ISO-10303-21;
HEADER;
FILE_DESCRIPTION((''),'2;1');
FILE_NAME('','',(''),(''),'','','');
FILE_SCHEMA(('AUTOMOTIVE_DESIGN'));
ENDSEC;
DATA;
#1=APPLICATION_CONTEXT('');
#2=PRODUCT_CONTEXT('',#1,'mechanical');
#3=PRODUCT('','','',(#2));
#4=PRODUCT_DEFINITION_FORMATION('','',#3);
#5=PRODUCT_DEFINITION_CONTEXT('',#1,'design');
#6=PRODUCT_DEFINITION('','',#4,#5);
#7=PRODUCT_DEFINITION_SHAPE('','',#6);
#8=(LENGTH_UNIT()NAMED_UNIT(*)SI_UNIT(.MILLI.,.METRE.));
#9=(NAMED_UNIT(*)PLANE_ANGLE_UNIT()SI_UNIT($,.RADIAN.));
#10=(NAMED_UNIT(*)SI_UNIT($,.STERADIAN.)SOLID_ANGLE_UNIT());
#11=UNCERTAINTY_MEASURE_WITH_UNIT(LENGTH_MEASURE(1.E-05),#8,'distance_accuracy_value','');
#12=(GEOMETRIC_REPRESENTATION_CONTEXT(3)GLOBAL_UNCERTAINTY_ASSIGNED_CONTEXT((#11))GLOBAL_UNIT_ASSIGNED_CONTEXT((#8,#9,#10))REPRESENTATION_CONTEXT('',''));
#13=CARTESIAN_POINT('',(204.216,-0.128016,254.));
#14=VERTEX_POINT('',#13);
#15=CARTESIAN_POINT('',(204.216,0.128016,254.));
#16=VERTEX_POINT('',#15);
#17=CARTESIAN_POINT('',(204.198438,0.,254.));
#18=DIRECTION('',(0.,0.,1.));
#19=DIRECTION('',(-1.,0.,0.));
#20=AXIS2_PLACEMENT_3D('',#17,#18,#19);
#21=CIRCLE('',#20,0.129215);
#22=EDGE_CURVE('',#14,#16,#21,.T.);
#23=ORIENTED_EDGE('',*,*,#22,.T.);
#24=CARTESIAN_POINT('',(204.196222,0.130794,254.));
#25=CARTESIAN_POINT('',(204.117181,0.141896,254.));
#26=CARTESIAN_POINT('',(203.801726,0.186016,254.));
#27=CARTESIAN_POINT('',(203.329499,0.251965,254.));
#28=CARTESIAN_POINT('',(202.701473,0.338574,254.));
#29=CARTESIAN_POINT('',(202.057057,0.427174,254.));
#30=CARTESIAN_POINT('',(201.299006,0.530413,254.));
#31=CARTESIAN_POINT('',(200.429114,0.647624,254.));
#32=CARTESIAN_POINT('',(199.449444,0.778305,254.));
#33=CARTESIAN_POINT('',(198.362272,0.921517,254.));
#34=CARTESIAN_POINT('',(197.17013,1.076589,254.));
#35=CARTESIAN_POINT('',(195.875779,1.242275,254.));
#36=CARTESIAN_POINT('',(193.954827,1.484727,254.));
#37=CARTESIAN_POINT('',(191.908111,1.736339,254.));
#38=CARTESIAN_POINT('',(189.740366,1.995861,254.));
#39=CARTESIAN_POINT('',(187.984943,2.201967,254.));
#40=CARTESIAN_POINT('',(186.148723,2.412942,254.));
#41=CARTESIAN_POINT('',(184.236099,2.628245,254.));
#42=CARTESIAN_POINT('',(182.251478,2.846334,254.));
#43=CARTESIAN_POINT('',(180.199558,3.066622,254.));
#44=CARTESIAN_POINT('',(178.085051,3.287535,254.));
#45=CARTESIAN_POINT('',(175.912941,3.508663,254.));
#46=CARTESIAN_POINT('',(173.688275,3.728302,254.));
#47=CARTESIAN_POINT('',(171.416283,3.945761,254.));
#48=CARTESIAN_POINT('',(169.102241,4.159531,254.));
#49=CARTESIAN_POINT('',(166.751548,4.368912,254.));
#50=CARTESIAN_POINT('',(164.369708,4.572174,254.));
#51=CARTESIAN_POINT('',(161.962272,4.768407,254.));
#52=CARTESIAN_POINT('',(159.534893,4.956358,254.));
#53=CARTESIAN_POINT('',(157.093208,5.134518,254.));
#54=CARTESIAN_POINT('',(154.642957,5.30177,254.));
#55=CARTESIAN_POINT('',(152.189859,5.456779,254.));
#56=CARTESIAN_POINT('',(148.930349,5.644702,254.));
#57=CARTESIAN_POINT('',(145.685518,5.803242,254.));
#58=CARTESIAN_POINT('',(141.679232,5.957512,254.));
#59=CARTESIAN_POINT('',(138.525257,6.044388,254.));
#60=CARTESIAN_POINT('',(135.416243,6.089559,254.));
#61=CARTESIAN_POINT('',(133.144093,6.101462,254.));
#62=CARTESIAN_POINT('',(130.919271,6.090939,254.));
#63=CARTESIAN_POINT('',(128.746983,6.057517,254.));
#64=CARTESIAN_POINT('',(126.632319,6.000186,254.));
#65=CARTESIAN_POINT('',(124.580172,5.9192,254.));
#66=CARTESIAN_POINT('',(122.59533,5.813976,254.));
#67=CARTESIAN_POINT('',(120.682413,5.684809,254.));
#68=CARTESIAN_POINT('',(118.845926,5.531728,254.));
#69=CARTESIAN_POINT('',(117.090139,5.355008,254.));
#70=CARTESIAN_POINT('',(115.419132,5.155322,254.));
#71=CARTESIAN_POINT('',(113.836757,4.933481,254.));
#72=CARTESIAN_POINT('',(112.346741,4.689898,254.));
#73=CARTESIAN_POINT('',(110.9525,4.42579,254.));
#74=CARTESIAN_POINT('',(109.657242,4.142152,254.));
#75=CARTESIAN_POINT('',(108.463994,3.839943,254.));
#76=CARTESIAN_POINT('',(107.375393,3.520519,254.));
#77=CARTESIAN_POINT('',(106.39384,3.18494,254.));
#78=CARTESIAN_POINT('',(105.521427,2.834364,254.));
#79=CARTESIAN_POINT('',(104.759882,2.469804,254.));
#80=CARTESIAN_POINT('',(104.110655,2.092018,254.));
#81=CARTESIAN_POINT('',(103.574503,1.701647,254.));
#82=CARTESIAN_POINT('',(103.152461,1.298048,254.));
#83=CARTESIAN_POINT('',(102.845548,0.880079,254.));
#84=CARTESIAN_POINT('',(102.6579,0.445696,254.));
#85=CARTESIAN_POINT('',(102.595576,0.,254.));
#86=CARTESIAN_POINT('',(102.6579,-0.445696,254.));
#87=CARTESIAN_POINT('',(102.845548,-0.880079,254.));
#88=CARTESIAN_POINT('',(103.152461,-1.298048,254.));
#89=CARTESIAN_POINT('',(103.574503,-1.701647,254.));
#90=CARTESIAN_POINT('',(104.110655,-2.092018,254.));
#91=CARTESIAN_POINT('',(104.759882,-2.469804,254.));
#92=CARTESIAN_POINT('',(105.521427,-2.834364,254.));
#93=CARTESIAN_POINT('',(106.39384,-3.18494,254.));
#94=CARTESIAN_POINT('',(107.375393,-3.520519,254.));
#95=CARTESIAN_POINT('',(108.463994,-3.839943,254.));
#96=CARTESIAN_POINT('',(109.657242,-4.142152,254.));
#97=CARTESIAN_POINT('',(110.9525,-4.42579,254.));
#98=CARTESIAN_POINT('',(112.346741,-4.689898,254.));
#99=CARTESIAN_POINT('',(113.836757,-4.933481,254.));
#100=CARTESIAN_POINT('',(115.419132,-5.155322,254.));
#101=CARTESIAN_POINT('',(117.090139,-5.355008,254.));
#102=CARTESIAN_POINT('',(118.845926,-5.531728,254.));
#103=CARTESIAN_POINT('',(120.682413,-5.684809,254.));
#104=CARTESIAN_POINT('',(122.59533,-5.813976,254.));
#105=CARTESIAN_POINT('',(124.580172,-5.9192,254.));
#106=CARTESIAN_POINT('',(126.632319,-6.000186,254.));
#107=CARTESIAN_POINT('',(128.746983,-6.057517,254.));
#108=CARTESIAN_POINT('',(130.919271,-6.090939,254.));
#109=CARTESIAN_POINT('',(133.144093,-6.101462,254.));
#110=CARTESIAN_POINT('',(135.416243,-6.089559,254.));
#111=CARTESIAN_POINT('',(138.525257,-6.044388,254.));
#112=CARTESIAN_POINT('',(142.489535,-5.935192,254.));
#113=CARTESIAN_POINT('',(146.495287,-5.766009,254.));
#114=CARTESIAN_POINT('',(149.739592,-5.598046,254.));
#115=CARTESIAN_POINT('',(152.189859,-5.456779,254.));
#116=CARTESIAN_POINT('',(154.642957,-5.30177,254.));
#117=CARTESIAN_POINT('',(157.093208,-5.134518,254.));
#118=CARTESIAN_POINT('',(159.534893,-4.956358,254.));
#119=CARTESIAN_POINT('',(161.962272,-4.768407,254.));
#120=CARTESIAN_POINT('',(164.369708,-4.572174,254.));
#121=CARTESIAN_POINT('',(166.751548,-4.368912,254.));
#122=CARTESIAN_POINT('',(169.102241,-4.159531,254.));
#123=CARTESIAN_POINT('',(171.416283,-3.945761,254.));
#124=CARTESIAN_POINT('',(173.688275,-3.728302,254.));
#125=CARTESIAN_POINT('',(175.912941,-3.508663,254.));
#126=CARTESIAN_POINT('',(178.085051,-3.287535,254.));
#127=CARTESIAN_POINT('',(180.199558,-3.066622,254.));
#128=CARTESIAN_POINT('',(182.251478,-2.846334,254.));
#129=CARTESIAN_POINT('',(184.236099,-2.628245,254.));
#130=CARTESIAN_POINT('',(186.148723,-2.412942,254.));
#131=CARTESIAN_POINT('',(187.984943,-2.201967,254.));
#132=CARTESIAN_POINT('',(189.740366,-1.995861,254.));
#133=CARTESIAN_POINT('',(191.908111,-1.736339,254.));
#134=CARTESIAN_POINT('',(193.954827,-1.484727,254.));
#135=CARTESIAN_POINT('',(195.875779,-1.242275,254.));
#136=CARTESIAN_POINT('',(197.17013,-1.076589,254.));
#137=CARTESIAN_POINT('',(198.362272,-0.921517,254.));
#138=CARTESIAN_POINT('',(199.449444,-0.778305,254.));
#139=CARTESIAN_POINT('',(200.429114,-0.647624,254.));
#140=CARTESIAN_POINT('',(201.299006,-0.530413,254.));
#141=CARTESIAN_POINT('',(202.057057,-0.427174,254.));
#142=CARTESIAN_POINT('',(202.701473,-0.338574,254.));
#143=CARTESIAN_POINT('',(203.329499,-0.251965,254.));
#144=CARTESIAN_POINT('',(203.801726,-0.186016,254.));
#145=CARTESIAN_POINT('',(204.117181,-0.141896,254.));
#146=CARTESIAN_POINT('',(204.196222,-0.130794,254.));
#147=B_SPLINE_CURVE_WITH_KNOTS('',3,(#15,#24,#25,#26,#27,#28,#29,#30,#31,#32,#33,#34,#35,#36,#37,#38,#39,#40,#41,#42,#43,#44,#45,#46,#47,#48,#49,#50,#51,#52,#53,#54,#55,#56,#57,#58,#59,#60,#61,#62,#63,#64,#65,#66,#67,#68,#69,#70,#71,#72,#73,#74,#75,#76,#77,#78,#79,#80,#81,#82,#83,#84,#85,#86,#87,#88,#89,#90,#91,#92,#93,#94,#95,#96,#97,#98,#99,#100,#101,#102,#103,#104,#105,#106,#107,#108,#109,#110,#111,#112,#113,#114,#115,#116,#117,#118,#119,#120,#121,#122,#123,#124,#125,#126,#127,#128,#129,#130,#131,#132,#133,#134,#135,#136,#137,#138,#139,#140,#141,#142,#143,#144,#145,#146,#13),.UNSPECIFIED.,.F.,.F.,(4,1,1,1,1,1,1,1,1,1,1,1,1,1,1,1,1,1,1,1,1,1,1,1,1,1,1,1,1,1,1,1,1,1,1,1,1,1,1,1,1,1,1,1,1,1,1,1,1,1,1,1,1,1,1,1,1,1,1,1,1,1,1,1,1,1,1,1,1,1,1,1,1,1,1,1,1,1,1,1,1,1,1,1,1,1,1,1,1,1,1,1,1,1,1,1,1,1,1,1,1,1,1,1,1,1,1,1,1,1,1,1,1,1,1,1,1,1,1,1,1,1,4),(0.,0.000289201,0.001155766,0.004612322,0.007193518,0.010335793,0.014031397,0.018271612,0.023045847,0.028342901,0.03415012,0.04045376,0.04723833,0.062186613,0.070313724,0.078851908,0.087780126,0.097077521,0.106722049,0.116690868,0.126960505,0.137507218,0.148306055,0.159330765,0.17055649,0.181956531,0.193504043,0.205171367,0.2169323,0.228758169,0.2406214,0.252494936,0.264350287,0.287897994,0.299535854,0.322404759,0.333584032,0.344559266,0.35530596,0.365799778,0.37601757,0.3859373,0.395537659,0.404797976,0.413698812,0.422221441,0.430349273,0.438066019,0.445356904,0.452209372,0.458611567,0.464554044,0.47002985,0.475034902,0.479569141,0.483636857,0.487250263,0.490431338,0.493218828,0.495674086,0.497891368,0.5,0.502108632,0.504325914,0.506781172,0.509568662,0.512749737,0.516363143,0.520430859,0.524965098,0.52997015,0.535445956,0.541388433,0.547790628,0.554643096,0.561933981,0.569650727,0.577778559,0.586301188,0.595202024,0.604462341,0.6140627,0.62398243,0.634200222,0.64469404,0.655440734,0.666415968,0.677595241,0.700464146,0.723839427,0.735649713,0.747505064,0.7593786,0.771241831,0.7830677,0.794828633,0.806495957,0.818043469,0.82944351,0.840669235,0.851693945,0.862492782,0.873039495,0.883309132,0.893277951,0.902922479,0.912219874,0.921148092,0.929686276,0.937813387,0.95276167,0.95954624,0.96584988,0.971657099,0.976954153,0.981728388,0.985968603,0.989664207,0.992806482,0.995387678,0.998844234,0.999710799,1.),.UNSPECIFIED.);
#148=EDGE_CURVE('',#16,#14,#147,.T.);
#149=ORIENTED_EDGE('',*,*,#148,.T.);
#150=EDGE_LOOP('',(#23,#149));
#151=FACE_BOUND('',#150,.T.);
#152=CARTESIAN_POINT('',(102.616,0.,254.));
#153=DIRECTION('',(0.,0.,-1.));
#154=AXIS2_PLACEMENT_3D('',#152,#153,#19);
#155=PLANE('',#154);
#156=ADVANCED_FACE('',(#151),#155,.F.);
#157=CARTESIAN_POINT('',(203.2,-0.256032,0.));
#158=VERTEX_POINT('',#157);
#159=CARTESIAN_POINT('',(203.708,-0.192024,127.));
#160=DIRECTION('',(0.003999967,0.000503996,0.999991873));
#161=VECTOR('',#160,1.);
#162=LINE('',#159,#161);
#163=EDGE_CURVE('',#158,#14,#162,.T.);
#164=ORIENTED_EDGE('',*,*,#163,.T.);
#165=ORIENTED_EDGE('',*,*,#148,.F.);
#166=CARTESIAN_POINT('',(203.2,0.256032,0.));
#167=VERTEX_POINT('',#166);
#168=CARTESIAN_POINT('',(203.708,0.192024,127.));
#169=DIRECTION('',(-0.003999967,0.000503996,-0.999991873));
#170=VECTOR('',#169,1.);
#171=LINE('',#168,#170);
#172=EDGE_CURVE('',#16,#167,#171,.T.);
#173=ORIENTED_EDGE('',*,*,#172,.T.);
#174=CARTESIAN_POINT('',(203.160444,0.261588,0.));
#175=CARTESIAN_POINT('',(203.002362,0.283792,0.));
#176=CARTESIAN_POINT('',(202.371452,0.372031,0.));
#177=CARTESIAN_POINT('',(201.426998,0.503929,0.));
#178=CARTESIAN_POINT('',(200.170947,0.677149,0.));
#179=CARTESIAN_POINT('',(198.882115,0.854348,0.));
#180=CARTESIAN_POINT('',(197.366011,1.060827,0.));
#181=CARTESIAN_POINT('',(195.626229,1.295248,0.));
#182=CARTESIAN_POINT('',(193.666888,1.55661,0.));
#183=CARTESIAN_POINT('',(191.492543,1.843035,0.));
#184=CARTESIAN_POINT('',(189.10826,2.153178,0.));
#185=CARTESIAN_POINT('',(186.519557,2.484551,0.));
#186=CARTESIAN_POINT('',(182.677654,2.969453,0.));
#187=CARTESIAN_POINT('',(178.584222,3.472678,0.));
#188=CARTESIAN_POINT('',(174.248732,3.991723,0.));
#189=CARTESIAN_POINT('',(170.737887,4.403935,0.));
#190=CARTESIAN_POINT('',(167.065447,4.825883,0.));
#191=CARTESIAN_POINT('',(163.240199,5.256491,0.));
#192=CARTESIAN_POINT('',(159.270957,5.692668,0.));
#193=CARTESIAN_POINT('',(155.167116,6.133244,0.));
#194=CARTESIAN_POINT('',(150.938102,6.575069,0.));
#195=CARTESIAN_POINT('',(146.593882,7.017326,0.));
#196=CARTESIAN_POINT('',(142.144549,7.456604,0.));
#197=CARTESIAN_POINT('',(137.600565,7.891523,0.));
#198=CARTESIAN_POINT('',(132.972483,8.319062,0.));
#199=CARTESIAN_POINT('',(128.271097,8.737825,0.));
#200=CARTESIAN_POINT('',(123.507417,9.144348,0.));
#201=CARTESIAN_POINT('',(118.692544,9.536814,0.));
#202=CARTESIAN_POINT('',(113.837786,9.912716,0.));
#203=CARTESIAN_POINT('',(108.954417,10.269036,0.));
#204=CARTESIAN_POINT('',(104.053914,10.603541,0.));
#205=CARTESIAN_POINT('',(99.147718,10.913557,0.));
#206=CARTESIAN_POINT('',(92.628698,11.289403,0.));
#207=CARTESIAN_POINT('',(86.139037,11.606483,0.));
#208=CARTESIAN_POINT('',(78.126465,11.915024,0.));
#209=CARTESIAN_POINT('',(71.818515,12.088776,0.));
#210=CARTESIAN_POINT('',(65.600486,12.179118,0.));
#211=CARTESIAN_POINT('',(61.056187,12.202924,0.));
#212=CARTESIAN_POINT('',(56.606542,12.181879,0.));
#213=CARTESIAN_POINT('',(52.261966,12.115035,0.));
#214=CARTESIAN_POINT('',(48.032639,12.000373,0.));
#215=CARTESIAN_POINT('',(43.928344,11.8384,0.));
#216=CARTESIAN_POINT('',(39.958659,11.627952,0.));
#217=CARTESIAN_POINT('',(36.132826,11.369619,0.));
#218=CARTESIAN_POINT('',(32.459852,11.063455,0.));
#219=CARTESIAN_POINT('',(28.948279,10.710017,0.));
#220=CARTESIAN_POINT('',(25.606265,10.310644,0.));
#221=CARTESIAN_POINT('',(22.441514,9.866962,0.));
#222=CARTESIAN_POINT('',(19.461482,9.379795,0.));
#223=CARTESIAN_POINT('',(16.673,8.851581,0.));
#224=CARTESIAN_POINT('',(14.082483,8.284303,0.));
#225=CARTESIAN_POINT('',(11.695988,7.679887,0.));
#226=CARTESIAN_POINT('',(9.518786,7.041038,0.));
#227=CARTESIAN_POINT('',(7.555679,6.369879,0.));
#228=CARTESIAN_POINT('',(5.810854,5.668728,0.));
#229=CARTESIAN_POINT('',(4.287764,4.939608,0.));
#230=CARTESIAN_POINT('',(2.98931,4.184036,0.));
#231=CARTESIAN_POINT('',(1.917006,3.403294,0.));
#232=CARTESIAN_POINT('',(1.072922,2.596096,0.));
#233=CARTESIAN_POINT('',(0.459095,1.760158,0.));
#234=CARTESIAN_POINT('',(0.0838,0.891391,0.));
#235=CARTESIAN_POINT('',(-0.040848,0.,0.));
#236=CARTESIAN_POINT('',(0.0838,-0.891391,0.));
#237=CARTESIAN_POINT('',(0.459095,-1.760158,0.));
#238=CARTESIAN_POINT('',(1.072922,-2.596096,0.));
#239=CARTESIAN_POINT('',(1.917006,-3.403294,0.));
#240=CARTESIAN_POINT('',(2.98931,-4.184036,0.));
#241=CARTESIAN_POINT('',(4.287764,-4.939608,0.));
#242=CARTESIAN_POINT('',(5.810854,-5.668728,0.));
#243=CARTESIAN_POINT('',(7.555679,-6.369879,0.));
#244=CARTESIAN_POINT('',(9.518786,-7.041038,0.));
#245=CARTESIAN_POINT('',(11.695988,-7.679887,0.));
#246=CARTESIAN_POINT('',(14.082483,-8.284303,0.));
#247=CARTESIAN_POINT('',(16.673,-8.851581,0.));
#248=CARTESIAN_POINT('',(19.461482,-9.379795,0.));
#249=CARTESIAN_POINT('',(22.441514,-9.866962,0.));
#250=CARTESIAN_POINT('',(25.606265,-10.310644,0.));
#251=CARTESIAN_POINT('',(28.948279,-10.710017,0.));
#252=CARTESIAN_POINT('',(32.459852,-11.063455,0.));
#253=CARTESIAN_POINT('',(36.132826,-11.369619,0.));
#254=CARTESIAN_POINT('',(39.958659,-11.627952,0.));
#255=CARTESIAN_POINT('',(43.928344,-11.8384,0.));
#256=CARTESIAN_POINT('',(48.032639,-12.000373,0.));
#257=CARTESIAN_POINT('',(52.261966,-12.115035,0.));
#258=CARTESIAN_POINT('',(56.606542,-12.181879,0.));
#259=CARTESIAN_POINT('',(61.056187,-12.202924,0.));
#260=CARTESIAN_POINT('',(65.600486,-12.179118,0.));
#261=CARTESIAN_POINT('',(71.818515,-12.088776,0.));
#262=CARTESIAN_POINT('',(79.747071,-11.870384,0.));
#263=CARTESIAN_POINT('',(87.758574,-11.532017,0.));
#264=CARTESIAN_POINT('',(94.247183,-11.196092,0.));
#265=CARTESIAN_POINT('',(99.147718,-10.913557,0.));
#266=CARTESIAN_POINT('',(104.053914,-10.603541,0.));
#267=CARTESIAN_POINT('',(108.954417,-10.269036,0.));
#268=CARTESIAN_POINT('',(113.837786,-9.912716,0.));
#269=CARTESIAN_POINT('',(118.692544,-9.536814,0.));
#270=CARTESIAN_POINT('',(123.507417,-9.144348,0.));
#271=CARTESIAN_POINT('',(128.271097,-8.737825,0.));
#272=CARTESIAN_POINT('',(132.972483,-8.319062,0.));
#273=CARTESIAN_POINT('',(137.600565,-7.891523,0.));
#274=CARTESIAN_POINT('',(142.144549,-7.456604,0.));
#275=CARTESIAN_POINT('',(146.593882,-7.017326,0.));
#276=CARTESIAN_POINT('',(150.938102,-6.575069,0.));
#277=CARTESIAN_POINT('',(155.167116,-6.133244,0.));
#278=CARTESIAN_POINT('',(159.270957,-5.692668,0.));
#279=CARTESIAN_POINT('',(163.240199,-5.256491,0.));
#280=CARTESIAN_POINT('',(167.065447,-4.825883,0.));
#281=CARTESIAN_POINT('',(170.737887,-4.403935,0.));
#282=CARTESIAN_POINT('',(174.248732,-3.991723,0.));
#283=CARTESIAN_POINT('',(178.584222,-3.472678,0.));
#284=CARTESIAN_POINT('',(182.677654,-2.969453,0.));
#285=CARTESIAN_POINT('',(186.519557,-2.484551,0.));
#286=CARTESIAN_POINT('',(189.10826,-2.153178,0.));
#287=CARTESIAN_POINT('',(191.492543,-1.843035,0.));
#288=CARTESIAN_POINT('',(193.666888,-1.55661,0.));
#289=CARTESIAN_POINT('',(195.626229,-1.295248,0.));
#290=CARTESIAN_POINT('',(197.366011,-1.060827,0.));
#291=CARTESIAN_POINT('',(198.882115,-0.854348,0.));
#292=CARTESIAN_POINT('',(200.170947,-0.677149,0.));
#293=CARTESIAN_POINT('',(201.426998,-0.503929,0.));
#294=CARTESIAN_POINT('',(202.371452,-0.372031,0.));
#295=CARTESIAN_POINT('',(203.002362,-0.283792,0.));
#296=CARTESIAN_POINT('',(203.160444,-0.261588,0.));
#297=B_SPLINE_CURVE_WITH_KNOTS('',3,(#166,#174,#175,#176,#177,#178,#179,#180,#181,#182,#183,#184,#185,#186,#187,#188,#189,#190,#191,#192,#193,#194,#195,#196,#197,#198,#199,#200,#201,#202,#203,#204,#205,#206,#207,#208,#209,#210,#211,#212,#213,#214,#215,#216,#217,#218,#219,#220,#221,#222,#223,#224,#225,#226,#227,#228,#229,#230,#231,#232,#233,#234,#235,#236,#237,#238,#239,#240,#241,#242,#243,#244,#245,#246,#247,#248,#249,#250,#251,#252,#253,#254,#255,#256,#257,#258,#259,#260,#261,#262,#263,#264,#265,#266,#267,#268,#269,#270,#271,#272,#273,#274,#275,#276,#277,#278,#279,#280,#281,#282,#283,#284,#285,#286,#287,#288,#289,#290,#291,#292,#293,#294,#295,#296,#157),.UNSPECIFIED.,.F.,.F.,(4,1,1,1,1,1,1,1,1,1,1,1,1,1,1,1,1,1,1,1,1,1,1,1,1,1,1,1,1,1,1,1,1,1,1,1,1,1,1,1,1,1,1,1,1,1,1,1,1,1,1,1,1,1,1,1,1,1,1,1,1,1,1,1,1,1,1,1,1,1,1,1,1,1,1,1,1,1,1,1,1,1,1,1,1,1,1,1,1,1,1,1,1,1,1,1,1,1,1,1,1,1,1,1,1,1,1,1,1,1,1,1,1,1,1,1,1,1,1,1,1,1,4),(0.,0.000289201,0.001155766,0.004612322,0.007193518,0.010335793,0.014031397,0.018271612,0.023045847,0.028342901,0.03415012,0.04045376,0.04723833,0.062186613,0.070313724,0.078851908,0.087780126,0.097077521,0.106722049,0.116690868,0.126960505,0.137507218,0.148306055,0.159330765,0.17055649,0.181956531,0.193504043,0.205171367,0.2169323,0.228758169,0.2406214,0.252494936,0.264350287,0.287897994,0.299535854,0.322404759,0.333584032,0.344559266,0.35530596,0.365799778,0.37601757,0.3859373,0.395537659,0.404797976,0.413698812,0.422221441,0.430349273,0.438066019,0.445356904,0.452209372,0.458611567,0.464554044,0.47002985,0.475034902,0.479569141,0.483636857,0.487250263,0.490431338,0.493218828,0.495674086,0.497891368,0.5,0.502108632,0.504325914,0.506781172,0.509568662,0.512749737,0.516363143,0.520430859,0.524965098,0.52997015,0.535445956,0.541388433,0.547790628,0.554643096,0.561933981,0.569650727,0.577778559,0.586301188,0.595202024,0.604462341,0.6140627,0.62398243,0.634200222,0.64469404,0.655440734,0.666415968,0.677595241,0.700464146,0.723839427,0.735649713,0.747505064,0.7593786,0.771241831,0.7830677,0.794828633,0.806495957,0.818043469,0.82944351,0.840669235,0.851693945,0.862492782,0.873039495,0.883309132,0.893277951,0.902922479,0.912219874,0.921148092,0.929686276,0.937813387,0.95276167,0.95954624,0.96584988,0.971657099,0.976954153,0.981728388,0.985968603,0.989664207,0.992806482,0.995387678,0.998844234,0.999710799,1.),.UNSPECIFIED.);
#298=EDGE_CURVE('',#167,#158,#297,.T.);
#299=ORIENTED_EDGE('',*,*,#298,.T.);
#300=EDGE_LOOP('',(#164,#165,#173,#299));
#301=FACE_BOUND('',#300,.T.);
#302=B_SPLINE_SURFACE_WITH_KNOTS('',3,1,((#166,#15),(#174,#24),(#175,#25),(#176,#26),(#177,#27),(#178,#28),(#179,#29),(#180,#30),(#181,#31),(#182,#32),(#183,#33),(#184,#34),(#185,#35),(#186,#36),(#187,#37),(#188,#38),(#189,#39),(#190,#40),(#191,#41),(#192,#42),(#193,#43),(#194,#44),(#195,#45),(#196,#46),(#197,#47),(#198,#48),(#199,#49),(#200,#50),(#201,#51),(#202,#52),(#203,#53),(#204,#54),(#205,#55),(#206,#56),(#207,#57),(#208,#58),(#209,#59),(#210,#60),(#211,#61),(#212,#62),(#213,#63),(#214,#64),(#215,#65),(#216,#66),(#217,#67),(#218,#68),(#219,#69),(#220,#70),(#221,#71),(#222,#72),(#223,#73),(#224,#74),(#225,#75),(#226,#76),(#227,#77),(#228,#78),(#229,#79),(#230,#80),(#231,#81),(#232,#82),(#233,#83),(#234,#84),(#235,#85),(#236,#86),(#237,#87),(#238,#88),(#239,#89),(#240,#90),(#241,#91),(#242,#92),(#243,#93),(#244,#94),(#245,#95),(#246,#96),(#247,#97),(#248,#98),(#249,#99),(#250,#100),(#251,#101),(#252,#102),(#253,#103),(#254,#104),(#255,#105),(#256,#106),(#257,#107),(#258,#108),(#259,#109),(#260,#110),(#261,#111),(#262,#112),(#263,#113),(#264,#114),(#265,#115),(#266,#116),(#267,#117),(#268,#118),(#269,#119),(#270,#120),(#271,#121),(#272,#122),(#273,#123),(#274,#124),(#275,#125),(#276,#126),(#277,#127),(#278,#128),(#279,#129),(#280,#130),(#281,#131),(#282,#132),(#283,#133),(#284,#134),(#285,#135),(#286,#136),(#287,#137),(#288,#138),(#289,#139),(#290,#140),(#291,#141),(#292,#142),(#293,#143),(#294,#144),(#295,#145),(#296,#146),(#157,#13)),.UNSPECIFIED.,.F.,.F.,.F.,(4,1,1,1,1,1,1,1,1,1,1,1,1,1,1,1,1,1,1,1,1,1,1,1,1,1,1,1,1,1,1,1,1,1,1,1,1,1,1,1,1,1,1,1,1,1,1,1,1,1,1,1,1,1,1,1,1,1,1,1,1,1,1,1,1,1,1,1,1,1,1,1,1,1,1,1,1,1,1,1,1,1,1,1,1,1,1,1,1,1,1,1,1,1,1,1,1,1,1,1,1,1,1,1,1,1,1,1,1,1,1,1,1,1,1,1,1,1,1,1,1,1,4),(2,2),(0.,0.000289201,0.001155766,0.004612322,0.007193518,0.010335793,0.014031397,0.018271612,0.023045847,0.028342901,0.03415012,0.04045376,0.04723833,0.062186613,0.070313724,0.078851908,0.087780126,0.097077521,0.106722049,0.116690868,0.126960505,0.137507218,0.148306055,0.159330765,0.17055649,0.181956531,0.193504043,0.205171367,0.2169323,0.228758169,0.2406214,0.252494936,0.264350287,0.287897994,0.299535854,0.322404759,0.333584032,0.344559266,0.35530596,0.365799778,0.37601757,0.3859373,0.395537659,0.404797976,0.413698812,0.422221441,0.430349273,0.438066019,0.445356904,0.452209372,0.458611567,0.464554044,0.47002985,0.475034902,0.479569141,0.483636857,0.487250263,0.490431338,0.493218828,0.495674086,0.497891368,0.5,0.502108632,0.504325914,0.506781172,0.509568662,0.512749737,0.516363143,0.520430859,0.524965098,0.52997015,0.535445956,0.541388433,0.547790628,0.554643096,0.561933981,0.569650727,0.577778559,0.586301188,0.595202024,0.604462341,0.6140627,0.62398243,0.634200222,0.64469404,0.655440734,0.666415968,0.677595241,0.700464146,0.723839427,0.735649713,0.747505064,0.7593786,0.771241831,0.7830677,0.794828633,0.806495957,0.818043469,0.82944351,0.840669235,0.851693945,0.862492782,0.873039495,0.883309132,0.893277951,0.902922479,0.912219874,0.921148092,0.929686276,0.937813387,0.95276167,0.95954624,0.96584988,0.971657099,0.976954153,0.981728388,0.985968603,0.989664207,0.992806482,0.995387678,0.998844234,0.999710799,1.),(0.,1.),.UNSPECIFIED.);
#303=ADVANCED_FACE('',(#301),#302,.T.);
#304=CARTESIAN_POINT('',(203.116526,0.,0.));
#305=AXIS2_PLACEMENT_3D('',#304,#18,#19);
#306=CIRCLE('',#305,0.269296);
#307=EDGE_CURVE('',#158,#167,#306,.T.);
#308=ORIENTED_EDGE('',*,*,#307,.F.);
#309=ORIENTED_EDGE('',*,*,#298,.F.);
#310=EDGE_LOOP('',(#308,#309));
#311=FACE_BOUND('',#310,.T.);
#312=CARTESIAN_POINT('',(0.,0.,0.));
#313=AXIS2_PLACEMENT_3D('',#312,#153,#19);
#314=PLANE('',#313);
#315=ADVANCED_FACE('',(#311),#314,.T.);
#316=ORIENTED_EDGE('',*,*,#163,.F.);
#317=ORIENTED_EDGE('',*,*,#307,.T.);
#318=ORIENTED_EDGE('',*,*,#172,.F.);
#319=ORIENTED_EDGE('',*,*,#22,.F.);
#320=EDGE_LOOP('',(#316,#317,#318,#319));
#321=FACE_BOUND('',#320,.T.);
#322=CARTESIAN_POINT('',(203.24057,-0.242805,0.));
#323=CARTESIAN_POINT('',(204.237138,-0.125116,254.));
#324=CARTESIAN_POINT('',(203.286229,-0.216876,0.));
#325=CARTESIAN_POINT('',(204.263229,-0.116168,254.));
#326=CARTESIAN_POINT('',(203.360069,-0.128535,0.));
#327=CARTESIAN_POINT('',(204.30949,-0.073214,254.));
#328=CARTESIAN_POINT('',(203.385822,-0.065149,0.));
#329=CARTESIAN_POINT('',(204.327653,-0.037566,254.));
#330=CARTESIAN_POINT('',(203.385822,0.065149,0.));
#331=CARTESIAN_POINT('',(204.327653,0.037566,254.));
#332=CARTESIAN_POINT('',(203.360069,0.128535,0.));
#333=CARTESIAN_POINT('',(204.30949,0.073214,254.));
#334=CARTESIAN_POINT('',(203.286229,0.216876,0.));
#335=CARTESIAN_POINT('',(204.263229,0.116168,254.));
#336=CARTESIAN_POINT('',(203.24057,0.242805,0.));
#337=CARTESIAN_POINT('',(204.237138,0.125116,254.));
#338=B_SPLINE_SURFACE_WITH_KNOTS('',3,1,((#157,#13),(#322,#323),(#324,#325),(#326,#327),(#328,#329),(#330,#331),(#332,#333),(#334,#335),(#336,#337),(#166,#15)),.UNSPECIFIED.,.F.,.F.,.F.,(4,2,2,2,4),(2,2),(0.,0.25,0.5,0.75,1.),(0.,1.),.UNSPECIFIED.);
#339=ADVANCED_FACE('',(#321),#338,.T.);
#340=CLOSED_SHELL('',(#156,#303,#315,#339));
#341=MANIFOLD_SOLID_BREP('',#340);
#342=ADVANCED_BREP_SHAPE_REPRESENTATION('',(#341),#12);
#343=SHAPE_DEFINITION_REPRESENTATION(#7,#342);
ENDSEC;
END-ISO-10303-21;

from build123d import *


with BuildPart() as part:
    # Sketch2 for Loft1 → Loft1 section 0
    with BuildSketch(Plane.XY):
        with BuildLine():
            # circular arc as an exact rational Bezier (weights 1, cos(half-angle), 1)
            Bezier((203.2, 0.256032), (203.985299386, 0), (203.2, -0.256032), weights=[1, 0.309972573, 1])
            add(Edge.make_bspline(
                [(203.2, 0.256032), (203.160444006, 0.26158808), (203.002362195, 0.283792432), (202.371452018, 0.372031236), (201.426998001, 0.503929296), (200.170946777, 0.677148757), (198.882114972, 0.854347737), (197.366011284, 1.060826609), (195.626228998, 1.295248031), (193.666888241, 1.556609567), (191.49254302, 1.843034787), (189.108259624, 2.153178269), (186.519557247, 2.484550519), (182.677653876, 2.969453015), (178.584221843, 3.472677933), (174.248732362, 3.991722924), (170.737886785, 4.403934983), (167.065446898, 4.825883481), (163.240198837, 5.256490831), (159.270956546, 5.692668058), (155.167116205, 6.133243682), (150.938101757, 6.575069268), (146.59388185, 7.017326061), (142.1445492, 7.45660377), (137.600565439, 7.891522736), (132.972482524, 8.319062257), (128.271096636, 8.737824539), (123.507416833, 9.144347741), (118.692544385, 9.536813527), (113.837785523, 9.912715546), (108.954416806, 10.269036244), (104.053914357, 10.603540812), (99.147717699, 10.913557285), (92.628697604, 11.289403433), (86.13903698, 11.606483183), (78.126464833, 11.915023622), (71.818514921, 12.088775754), (65.600486036, 12.179117605), (61.056186819, 12.202924123), (56.606542161, 12.181878588), (52.261965901, 12.115034784), (48.032638774, 12.000372627), (43.928344281, 11.838399519), (39.958659254, 11.627951646), (36.132825625, 11.369618862), (32.459852367, 11.063455033), (28.948278923, 10.710016616), (25.606264548, 10.310644367), (22.441513893, 9.866961624), (19.461482357, 9.379795449), (16.672999609, 8.851580621), (14.082483297, 8.284303305), (11.695987669, 7.679886516), (9.518786136, 7.04103794), (7.555679422, 6.369879191), (5.810853962, 5.668728302), (4.287763717, 4.939607963), (2.989310371, 4.184036166), (1.91700592, 3.403293753), (1.072922347, 2.596096448), (0.459095184, 1.760157594), (0.083800287, 0.891391222), (-0.040847769, 0), (0.083800287, -0.891391222), (0.459095184, -1.760157594), (1.072922347, -2.596096448), (1.91700592, -3.403293753), (2.989310371, -4.184036166), (4.287763717, -4.939607963), (5.810853962, -5.668728302), (7.555679422, -6.369879191), (9.518786136, -7.04103794), (11.695987669, -7.679886516), (14.082483297, -8.284303305), (16.672999609, -8.851580621), (19.461482357, -9.379795449), (22.441513893, -9.866961624), (25.606264548, -10.310644367), (28.948278923, -10.710016616), (32.459852367, -11.063455033), (36.132825625, -11.369618862), (39.958659254, -11.627951646), (43.928344281, -11.838399519), (48.032638774, -12.000372627), (52.261965901, -12.115034784), (56.606542161, -12.181878588), (61.056186819, -12.202924123), (65.600486036, -12.179117605), (71.818514921, -12.088775754), (79.747070765, -11.870384121), (87.758573777, -11.532017027), (94.247183136, -11.196091625), (99.147717699, -10.913557285), (104.053914357, -10.603540812), (108.954416806, -10.269036244), (113.837785523, -9.912715546), (118.692544385, -9.536813527), (123.507416833, -9.144347741), (128.271096636, -8.737824539), (132.972482524, -8.319062257), (137.600565439, -7.891522736), (142.1445492, -7.45660377), (146.59388185, -7.017326061), (150.938101757, -6.575069268), (155.167116205, -6.133243682), (159.270956546, -5.692668058), (163.240198837, -5.256490831), (167.065446898, -4.825883481), (170.737886785, -4.403934983), (174.248732362, -3.991722924), (178.584221843, -3.472677933), (182.677653876, -2.969453015), (186.519557247, -2.484550519), (189.108259624, -2.153178269), (191.49254302, -1.843034787), (193.666888241, -1.556609567), (195.626228998, -1.295248031), (197.366011284, -1.060826609), (198.882114972, -0.854347737), (200.170946777, -0.677148757), (201.426998001, -0.503929296), (202.371452018, -0.372031236), (203.002362195, -0.283792432), (203.160444006, -0.26158808), (203.2, -0.256032)],
                knots=[0, 0, 0, 0, 0.000289201, 0.001155766, 0.004612322, 0.007193518, 0.010335793, 0.014031397, 0.018271612, 0.023045847, 0.028342901, 0.03415012, 0.04045376, 0.04723833, 0.062186613, 0.070313724, 0.078851908, 0.087780126, 0.097077521, 0.106722049, 0.116690868, 0.126960505, 0.137507218, 0.148306055, 0.159330765, 0.17055649, 0.181956531, 0.193504043, 0.205171367, 0.2169323, 0.228758169, 0.2406214, 0.252494936, 0.264350287, 0.287897994, 0.299535854, 0.322404759, 0.333584032, 0.344559266, 0.35530596, 0.365799778, 0.37601757, 0.3859373, 0.395537659, 0.404797976, 0.413698812, 0.422221441, 0.430349273, 0.438066019, 0.445356904, 0.452209372, 0.458611567, 0.464554044, 0.47002985, 0.475034902, 0.479569141, 0.483636857, 0.487250263, 0.490431338, 0.493218828, 0.495674086, 0.497891368, 0.5, 0.502108632, 0.504325914, 0.506781172, 0.509568662, 0.512749737, 0.516363143, 0.520430859, 0.524965098, 0.52997015, 0.535445956, 0.541388433, 0.547790628, 0.554643096, 0.561933981, 0.569650727, 0.577778559, 0.586301188, 0.595202024, 0.604462341, 0.6140627, 0.62398243, 0.634200222, 0.64469404, 0.655440734, 0.666415968, 0.677595241, 0.700464146, 0.723839427, 0.735649713, 0.747505064, 0.7593786, 0.771241831, 0.7830677, 0.794828633, 0.806495957, 0.818043469, 0.82944351, 0.840669235, 0.851693945, 0.862492782, 0.873039495, 0.883309132, 0.893277951, 0.902922479, 0.912219874, 0.921148092, 0.929686276, 0.937813387, 0.95276167, 0.95954624, 0.96584988, 0.971657099, 0.976954153, 0.981728388, 0.985968603, 0.989664207, 0.992806482, 0.995387678, 0.998844234, 0.999710799, 1, 1, 1, 1], degree=3))
        make_face()
    # Sketch3 for Loft1 → Loft1 section 1
    with BuildSketch(Plane.XY.offset(254)):
        with BuildLine():
            Bezier((204.215999994, 0.128016), (205.149157327, -1e-09), (204.215999994, -0.128016), weights=[1, 0.135912893, 1])
            add(Edge.make_bspline(
                [(204.215999994, 0.128016), (204.196221998, 0.13079404), (204.117181092, 0.141896216), (203.801726004, 0.186015618), (203.329498995, 0.251964648), (202.701473383, 0.338574378), (202.057057481, 0.427173868), (201.299005637, 0.530413304), (200.429114494, 0.647624016), (199.449444115, 0.778304783), (198.362271505, 0.921517393), (197.170129807, 1.076589135), (195.875778619, 1.242275259), (193.954826933, 1.484726507), (191.908110917, 1.736338966), (189.740366176, 1.995861462), (187.984943388, 2.201967491), (186.148723444, 2.41294174), (184.236099414, 2.628245415), (182.251478269, 2.846334029), (180.199558098, 3.06662184), (178.085050874, 3.287534634), (175.912940921, 3.50866303), (173.688274596, 3.728301885), (171.416282716, 3.945761367), (169.102241258, 4.159531128), (166.751548314, 4.368912269), (164.369708413, 4.57217387), (161.962272189, 4.768406763), (159.534892758, 4.956357773), (157.0932084, 5.134518121), (154.642957176, 5.301770406), (152.189858847, 5.456778642), (148.930348799, 5.644701716), (145.685518488, 5.803241591), (141.679232414, 5.95751181), (138.525257459, 6.044387876), (135.416243016, 6.089558802), (133.144093408, 6.101462061), (130.919271079, 6.090939293), (128.746982949, 6.057517391), (126.632319386, 6.000186313), (124.580172139, 5.919199759), (122.595329626, 5.813975822), (120.682412811, 5.68480943), (118.845926183, 5.531727516), (117.090139461, 5.355008307), (115.419132273, 5.155322183), (113.836756946, 4.933480811), (112.346741178, 4.689897724), (110.952499804, 4.42579031), (109.657241648, 4.142151652), (108.463993834, 3.839943257), (107.375393067, 3.520518969), (106.393839711, 3.184939595), (105.521426981, 2.83436415), (104.759881858, 2.469803981), (104.110655185, 2.092018082), (103.57450296, 1.701646876), (103.152461174, 1.298048223), (102.845547592, 0.880078797), (102.657900144, 0.44569561), (102.595576116, -1e-09), (102.657900144, -0.445695611), (102.845547592, -0.880078798), (103.152461174, -1.298048224), (103.57450296, -1.701646877), (104.110655185, -2.092018083), (104.759881858, -2.469803982), (105.521426981, -2.834364151), (106.393839711, -3.184939596), (107.375393068, -3.52051897), (108.463993834, -3.839943258), (109.657241648, -4.142151653), (110.952499804, -4.425790311), (112.346741178, -4.689897725), (113.836756946, -4.933480812), (115.419132273, -5.155322184), (117.090139461, -5.355008308), (118.845926183, -5.531727517), (120.682412811, -5.684809431), (122.595329626, -5.813975823), (124.580172139, -5.91919976), (126.632319386, -6.000186313), (128.746982949, -6.057517392), (130.919271079, -6.090939294), (133.144093408, -6.101462062), (135.416243016, -6.089558803), (138.525257459, -6.044387877), (142.489535381, -5.93519206), (146.495286886, -5.766008513), (149.739591566, -5.598045812), (152.189858847, -5.456778643), (154.642957176, -5.301770406), (157.0932084, -5.134518122), (159.534892758, -4.956357773), (161.962272189, -4.768406763), (164.369708413, -4.572173871), (166.751548314, -4.36891227), (169.102241258, -4.159531128), (171.416282716, -3.945761368), (173.688274596, -3.728301885), (175.912940921, -3.50866303), (178.085050875, -3.287534634), (180.199558098, -3.066621841), (182.251478269, -2.846334029), (184.236099414, -2.628245415), (186.148723444, -2.412941741), (187.984943388, -2.201967491), (189.740366176, -1.995861462), (191.908110917, -1.736338966), (193.954826933, -1.484726508), (195.875778619, -1.24227526), (197.170129807, -1.076589135), (198.362271505, -0.921517394), (199.449444115, -0.778304783), (200.429114494, -0.647624016), (201.299005637, -0.530413304), (202.057057481, -0.427173868), (202.701473383, -0.338574378), (203.329498995, -0.251964648), (203.801726004, -0.186015618), (204.117181092, -0.141896216), (204.196221998, -0.13079404), (204.215999994, -0.128016)],
                knots=[0, 0, 0, 0, 0.000289201, 0.001155766, 0.004612322, 0.007193518, 0.010335793, 0.014031397, 0.018271612, 0.023045847, 0.028342901, 0.03415012, 0.04045376, 0.04723833, 0.062186613, 0.070313724, 0.078851908, 0.087780126, 0.097077521, 0.106722049, 0.116690868, 0.126960505, 0.137507218, 0.148306055, 0.159330765, 0.17055649, 0.181956531, 0.193504043, 0.205171367, 0.2169323, 0.228758169, 0.2406214, 0.252494936, 0.264350287, 0.287897994, 0.299535854, 0.322404759, 0.333584032, 0.344559266, 0.35530596, 0.365799778, 0.37601757, 0.3859373, 0.395537659, 0.404797976, 0.413698812, 0.422221441, 0.430349273, 0.438066019, 0.445356904, 0.452209372, 0.458611567, 0.464554044, 0.47002985, 0.475034902, 0.479569141, 0.483636857, 0.487250263, 0.490431338, 0.493218828, 0.495674086, 0.497891368, 0.5, 0.502108632, 0.504325914, 0.506781172, 0.509568662, 0.512749737, 0.516363143, 0.520430859, 0.524965098, 0.52997015, 0.535445956, 0.541388433, 0.547790628, 0.554643096, 0.561933981, 0.569650727, 0.577778559, 0.586301188, 0.595202024, 0.604462341, 0.6140627, 0.62398243, 0.634200222, 0.64469404, 0.655440734, 0.666415968, 0.677595241, 0.700464146, 0.723839427, 0.735649713, 0.747505064, 0.7593786, 0.771241831, 0.7830677, 0.794828633, 0.806495957, 0.818043469, 0.82944351, 0.840669235, 0.851693945, 0.862492782, 0.873039495, 0.883309132, 0.893277951, 0.902922479, 0.912219874, 0.921148092, 0.929686276, 0.937813387, 0.95276167, 0.95954624, 0.96584988, 0.971657099, 0.976954153, 0.981728388, 0.985968603, 0.989664207, 0.992806482, 0.995387678, 0.998844234, 0.999710799, 1, 1, 1, 1], degree=3))
        make_face()
    loft()


solid = part.part
